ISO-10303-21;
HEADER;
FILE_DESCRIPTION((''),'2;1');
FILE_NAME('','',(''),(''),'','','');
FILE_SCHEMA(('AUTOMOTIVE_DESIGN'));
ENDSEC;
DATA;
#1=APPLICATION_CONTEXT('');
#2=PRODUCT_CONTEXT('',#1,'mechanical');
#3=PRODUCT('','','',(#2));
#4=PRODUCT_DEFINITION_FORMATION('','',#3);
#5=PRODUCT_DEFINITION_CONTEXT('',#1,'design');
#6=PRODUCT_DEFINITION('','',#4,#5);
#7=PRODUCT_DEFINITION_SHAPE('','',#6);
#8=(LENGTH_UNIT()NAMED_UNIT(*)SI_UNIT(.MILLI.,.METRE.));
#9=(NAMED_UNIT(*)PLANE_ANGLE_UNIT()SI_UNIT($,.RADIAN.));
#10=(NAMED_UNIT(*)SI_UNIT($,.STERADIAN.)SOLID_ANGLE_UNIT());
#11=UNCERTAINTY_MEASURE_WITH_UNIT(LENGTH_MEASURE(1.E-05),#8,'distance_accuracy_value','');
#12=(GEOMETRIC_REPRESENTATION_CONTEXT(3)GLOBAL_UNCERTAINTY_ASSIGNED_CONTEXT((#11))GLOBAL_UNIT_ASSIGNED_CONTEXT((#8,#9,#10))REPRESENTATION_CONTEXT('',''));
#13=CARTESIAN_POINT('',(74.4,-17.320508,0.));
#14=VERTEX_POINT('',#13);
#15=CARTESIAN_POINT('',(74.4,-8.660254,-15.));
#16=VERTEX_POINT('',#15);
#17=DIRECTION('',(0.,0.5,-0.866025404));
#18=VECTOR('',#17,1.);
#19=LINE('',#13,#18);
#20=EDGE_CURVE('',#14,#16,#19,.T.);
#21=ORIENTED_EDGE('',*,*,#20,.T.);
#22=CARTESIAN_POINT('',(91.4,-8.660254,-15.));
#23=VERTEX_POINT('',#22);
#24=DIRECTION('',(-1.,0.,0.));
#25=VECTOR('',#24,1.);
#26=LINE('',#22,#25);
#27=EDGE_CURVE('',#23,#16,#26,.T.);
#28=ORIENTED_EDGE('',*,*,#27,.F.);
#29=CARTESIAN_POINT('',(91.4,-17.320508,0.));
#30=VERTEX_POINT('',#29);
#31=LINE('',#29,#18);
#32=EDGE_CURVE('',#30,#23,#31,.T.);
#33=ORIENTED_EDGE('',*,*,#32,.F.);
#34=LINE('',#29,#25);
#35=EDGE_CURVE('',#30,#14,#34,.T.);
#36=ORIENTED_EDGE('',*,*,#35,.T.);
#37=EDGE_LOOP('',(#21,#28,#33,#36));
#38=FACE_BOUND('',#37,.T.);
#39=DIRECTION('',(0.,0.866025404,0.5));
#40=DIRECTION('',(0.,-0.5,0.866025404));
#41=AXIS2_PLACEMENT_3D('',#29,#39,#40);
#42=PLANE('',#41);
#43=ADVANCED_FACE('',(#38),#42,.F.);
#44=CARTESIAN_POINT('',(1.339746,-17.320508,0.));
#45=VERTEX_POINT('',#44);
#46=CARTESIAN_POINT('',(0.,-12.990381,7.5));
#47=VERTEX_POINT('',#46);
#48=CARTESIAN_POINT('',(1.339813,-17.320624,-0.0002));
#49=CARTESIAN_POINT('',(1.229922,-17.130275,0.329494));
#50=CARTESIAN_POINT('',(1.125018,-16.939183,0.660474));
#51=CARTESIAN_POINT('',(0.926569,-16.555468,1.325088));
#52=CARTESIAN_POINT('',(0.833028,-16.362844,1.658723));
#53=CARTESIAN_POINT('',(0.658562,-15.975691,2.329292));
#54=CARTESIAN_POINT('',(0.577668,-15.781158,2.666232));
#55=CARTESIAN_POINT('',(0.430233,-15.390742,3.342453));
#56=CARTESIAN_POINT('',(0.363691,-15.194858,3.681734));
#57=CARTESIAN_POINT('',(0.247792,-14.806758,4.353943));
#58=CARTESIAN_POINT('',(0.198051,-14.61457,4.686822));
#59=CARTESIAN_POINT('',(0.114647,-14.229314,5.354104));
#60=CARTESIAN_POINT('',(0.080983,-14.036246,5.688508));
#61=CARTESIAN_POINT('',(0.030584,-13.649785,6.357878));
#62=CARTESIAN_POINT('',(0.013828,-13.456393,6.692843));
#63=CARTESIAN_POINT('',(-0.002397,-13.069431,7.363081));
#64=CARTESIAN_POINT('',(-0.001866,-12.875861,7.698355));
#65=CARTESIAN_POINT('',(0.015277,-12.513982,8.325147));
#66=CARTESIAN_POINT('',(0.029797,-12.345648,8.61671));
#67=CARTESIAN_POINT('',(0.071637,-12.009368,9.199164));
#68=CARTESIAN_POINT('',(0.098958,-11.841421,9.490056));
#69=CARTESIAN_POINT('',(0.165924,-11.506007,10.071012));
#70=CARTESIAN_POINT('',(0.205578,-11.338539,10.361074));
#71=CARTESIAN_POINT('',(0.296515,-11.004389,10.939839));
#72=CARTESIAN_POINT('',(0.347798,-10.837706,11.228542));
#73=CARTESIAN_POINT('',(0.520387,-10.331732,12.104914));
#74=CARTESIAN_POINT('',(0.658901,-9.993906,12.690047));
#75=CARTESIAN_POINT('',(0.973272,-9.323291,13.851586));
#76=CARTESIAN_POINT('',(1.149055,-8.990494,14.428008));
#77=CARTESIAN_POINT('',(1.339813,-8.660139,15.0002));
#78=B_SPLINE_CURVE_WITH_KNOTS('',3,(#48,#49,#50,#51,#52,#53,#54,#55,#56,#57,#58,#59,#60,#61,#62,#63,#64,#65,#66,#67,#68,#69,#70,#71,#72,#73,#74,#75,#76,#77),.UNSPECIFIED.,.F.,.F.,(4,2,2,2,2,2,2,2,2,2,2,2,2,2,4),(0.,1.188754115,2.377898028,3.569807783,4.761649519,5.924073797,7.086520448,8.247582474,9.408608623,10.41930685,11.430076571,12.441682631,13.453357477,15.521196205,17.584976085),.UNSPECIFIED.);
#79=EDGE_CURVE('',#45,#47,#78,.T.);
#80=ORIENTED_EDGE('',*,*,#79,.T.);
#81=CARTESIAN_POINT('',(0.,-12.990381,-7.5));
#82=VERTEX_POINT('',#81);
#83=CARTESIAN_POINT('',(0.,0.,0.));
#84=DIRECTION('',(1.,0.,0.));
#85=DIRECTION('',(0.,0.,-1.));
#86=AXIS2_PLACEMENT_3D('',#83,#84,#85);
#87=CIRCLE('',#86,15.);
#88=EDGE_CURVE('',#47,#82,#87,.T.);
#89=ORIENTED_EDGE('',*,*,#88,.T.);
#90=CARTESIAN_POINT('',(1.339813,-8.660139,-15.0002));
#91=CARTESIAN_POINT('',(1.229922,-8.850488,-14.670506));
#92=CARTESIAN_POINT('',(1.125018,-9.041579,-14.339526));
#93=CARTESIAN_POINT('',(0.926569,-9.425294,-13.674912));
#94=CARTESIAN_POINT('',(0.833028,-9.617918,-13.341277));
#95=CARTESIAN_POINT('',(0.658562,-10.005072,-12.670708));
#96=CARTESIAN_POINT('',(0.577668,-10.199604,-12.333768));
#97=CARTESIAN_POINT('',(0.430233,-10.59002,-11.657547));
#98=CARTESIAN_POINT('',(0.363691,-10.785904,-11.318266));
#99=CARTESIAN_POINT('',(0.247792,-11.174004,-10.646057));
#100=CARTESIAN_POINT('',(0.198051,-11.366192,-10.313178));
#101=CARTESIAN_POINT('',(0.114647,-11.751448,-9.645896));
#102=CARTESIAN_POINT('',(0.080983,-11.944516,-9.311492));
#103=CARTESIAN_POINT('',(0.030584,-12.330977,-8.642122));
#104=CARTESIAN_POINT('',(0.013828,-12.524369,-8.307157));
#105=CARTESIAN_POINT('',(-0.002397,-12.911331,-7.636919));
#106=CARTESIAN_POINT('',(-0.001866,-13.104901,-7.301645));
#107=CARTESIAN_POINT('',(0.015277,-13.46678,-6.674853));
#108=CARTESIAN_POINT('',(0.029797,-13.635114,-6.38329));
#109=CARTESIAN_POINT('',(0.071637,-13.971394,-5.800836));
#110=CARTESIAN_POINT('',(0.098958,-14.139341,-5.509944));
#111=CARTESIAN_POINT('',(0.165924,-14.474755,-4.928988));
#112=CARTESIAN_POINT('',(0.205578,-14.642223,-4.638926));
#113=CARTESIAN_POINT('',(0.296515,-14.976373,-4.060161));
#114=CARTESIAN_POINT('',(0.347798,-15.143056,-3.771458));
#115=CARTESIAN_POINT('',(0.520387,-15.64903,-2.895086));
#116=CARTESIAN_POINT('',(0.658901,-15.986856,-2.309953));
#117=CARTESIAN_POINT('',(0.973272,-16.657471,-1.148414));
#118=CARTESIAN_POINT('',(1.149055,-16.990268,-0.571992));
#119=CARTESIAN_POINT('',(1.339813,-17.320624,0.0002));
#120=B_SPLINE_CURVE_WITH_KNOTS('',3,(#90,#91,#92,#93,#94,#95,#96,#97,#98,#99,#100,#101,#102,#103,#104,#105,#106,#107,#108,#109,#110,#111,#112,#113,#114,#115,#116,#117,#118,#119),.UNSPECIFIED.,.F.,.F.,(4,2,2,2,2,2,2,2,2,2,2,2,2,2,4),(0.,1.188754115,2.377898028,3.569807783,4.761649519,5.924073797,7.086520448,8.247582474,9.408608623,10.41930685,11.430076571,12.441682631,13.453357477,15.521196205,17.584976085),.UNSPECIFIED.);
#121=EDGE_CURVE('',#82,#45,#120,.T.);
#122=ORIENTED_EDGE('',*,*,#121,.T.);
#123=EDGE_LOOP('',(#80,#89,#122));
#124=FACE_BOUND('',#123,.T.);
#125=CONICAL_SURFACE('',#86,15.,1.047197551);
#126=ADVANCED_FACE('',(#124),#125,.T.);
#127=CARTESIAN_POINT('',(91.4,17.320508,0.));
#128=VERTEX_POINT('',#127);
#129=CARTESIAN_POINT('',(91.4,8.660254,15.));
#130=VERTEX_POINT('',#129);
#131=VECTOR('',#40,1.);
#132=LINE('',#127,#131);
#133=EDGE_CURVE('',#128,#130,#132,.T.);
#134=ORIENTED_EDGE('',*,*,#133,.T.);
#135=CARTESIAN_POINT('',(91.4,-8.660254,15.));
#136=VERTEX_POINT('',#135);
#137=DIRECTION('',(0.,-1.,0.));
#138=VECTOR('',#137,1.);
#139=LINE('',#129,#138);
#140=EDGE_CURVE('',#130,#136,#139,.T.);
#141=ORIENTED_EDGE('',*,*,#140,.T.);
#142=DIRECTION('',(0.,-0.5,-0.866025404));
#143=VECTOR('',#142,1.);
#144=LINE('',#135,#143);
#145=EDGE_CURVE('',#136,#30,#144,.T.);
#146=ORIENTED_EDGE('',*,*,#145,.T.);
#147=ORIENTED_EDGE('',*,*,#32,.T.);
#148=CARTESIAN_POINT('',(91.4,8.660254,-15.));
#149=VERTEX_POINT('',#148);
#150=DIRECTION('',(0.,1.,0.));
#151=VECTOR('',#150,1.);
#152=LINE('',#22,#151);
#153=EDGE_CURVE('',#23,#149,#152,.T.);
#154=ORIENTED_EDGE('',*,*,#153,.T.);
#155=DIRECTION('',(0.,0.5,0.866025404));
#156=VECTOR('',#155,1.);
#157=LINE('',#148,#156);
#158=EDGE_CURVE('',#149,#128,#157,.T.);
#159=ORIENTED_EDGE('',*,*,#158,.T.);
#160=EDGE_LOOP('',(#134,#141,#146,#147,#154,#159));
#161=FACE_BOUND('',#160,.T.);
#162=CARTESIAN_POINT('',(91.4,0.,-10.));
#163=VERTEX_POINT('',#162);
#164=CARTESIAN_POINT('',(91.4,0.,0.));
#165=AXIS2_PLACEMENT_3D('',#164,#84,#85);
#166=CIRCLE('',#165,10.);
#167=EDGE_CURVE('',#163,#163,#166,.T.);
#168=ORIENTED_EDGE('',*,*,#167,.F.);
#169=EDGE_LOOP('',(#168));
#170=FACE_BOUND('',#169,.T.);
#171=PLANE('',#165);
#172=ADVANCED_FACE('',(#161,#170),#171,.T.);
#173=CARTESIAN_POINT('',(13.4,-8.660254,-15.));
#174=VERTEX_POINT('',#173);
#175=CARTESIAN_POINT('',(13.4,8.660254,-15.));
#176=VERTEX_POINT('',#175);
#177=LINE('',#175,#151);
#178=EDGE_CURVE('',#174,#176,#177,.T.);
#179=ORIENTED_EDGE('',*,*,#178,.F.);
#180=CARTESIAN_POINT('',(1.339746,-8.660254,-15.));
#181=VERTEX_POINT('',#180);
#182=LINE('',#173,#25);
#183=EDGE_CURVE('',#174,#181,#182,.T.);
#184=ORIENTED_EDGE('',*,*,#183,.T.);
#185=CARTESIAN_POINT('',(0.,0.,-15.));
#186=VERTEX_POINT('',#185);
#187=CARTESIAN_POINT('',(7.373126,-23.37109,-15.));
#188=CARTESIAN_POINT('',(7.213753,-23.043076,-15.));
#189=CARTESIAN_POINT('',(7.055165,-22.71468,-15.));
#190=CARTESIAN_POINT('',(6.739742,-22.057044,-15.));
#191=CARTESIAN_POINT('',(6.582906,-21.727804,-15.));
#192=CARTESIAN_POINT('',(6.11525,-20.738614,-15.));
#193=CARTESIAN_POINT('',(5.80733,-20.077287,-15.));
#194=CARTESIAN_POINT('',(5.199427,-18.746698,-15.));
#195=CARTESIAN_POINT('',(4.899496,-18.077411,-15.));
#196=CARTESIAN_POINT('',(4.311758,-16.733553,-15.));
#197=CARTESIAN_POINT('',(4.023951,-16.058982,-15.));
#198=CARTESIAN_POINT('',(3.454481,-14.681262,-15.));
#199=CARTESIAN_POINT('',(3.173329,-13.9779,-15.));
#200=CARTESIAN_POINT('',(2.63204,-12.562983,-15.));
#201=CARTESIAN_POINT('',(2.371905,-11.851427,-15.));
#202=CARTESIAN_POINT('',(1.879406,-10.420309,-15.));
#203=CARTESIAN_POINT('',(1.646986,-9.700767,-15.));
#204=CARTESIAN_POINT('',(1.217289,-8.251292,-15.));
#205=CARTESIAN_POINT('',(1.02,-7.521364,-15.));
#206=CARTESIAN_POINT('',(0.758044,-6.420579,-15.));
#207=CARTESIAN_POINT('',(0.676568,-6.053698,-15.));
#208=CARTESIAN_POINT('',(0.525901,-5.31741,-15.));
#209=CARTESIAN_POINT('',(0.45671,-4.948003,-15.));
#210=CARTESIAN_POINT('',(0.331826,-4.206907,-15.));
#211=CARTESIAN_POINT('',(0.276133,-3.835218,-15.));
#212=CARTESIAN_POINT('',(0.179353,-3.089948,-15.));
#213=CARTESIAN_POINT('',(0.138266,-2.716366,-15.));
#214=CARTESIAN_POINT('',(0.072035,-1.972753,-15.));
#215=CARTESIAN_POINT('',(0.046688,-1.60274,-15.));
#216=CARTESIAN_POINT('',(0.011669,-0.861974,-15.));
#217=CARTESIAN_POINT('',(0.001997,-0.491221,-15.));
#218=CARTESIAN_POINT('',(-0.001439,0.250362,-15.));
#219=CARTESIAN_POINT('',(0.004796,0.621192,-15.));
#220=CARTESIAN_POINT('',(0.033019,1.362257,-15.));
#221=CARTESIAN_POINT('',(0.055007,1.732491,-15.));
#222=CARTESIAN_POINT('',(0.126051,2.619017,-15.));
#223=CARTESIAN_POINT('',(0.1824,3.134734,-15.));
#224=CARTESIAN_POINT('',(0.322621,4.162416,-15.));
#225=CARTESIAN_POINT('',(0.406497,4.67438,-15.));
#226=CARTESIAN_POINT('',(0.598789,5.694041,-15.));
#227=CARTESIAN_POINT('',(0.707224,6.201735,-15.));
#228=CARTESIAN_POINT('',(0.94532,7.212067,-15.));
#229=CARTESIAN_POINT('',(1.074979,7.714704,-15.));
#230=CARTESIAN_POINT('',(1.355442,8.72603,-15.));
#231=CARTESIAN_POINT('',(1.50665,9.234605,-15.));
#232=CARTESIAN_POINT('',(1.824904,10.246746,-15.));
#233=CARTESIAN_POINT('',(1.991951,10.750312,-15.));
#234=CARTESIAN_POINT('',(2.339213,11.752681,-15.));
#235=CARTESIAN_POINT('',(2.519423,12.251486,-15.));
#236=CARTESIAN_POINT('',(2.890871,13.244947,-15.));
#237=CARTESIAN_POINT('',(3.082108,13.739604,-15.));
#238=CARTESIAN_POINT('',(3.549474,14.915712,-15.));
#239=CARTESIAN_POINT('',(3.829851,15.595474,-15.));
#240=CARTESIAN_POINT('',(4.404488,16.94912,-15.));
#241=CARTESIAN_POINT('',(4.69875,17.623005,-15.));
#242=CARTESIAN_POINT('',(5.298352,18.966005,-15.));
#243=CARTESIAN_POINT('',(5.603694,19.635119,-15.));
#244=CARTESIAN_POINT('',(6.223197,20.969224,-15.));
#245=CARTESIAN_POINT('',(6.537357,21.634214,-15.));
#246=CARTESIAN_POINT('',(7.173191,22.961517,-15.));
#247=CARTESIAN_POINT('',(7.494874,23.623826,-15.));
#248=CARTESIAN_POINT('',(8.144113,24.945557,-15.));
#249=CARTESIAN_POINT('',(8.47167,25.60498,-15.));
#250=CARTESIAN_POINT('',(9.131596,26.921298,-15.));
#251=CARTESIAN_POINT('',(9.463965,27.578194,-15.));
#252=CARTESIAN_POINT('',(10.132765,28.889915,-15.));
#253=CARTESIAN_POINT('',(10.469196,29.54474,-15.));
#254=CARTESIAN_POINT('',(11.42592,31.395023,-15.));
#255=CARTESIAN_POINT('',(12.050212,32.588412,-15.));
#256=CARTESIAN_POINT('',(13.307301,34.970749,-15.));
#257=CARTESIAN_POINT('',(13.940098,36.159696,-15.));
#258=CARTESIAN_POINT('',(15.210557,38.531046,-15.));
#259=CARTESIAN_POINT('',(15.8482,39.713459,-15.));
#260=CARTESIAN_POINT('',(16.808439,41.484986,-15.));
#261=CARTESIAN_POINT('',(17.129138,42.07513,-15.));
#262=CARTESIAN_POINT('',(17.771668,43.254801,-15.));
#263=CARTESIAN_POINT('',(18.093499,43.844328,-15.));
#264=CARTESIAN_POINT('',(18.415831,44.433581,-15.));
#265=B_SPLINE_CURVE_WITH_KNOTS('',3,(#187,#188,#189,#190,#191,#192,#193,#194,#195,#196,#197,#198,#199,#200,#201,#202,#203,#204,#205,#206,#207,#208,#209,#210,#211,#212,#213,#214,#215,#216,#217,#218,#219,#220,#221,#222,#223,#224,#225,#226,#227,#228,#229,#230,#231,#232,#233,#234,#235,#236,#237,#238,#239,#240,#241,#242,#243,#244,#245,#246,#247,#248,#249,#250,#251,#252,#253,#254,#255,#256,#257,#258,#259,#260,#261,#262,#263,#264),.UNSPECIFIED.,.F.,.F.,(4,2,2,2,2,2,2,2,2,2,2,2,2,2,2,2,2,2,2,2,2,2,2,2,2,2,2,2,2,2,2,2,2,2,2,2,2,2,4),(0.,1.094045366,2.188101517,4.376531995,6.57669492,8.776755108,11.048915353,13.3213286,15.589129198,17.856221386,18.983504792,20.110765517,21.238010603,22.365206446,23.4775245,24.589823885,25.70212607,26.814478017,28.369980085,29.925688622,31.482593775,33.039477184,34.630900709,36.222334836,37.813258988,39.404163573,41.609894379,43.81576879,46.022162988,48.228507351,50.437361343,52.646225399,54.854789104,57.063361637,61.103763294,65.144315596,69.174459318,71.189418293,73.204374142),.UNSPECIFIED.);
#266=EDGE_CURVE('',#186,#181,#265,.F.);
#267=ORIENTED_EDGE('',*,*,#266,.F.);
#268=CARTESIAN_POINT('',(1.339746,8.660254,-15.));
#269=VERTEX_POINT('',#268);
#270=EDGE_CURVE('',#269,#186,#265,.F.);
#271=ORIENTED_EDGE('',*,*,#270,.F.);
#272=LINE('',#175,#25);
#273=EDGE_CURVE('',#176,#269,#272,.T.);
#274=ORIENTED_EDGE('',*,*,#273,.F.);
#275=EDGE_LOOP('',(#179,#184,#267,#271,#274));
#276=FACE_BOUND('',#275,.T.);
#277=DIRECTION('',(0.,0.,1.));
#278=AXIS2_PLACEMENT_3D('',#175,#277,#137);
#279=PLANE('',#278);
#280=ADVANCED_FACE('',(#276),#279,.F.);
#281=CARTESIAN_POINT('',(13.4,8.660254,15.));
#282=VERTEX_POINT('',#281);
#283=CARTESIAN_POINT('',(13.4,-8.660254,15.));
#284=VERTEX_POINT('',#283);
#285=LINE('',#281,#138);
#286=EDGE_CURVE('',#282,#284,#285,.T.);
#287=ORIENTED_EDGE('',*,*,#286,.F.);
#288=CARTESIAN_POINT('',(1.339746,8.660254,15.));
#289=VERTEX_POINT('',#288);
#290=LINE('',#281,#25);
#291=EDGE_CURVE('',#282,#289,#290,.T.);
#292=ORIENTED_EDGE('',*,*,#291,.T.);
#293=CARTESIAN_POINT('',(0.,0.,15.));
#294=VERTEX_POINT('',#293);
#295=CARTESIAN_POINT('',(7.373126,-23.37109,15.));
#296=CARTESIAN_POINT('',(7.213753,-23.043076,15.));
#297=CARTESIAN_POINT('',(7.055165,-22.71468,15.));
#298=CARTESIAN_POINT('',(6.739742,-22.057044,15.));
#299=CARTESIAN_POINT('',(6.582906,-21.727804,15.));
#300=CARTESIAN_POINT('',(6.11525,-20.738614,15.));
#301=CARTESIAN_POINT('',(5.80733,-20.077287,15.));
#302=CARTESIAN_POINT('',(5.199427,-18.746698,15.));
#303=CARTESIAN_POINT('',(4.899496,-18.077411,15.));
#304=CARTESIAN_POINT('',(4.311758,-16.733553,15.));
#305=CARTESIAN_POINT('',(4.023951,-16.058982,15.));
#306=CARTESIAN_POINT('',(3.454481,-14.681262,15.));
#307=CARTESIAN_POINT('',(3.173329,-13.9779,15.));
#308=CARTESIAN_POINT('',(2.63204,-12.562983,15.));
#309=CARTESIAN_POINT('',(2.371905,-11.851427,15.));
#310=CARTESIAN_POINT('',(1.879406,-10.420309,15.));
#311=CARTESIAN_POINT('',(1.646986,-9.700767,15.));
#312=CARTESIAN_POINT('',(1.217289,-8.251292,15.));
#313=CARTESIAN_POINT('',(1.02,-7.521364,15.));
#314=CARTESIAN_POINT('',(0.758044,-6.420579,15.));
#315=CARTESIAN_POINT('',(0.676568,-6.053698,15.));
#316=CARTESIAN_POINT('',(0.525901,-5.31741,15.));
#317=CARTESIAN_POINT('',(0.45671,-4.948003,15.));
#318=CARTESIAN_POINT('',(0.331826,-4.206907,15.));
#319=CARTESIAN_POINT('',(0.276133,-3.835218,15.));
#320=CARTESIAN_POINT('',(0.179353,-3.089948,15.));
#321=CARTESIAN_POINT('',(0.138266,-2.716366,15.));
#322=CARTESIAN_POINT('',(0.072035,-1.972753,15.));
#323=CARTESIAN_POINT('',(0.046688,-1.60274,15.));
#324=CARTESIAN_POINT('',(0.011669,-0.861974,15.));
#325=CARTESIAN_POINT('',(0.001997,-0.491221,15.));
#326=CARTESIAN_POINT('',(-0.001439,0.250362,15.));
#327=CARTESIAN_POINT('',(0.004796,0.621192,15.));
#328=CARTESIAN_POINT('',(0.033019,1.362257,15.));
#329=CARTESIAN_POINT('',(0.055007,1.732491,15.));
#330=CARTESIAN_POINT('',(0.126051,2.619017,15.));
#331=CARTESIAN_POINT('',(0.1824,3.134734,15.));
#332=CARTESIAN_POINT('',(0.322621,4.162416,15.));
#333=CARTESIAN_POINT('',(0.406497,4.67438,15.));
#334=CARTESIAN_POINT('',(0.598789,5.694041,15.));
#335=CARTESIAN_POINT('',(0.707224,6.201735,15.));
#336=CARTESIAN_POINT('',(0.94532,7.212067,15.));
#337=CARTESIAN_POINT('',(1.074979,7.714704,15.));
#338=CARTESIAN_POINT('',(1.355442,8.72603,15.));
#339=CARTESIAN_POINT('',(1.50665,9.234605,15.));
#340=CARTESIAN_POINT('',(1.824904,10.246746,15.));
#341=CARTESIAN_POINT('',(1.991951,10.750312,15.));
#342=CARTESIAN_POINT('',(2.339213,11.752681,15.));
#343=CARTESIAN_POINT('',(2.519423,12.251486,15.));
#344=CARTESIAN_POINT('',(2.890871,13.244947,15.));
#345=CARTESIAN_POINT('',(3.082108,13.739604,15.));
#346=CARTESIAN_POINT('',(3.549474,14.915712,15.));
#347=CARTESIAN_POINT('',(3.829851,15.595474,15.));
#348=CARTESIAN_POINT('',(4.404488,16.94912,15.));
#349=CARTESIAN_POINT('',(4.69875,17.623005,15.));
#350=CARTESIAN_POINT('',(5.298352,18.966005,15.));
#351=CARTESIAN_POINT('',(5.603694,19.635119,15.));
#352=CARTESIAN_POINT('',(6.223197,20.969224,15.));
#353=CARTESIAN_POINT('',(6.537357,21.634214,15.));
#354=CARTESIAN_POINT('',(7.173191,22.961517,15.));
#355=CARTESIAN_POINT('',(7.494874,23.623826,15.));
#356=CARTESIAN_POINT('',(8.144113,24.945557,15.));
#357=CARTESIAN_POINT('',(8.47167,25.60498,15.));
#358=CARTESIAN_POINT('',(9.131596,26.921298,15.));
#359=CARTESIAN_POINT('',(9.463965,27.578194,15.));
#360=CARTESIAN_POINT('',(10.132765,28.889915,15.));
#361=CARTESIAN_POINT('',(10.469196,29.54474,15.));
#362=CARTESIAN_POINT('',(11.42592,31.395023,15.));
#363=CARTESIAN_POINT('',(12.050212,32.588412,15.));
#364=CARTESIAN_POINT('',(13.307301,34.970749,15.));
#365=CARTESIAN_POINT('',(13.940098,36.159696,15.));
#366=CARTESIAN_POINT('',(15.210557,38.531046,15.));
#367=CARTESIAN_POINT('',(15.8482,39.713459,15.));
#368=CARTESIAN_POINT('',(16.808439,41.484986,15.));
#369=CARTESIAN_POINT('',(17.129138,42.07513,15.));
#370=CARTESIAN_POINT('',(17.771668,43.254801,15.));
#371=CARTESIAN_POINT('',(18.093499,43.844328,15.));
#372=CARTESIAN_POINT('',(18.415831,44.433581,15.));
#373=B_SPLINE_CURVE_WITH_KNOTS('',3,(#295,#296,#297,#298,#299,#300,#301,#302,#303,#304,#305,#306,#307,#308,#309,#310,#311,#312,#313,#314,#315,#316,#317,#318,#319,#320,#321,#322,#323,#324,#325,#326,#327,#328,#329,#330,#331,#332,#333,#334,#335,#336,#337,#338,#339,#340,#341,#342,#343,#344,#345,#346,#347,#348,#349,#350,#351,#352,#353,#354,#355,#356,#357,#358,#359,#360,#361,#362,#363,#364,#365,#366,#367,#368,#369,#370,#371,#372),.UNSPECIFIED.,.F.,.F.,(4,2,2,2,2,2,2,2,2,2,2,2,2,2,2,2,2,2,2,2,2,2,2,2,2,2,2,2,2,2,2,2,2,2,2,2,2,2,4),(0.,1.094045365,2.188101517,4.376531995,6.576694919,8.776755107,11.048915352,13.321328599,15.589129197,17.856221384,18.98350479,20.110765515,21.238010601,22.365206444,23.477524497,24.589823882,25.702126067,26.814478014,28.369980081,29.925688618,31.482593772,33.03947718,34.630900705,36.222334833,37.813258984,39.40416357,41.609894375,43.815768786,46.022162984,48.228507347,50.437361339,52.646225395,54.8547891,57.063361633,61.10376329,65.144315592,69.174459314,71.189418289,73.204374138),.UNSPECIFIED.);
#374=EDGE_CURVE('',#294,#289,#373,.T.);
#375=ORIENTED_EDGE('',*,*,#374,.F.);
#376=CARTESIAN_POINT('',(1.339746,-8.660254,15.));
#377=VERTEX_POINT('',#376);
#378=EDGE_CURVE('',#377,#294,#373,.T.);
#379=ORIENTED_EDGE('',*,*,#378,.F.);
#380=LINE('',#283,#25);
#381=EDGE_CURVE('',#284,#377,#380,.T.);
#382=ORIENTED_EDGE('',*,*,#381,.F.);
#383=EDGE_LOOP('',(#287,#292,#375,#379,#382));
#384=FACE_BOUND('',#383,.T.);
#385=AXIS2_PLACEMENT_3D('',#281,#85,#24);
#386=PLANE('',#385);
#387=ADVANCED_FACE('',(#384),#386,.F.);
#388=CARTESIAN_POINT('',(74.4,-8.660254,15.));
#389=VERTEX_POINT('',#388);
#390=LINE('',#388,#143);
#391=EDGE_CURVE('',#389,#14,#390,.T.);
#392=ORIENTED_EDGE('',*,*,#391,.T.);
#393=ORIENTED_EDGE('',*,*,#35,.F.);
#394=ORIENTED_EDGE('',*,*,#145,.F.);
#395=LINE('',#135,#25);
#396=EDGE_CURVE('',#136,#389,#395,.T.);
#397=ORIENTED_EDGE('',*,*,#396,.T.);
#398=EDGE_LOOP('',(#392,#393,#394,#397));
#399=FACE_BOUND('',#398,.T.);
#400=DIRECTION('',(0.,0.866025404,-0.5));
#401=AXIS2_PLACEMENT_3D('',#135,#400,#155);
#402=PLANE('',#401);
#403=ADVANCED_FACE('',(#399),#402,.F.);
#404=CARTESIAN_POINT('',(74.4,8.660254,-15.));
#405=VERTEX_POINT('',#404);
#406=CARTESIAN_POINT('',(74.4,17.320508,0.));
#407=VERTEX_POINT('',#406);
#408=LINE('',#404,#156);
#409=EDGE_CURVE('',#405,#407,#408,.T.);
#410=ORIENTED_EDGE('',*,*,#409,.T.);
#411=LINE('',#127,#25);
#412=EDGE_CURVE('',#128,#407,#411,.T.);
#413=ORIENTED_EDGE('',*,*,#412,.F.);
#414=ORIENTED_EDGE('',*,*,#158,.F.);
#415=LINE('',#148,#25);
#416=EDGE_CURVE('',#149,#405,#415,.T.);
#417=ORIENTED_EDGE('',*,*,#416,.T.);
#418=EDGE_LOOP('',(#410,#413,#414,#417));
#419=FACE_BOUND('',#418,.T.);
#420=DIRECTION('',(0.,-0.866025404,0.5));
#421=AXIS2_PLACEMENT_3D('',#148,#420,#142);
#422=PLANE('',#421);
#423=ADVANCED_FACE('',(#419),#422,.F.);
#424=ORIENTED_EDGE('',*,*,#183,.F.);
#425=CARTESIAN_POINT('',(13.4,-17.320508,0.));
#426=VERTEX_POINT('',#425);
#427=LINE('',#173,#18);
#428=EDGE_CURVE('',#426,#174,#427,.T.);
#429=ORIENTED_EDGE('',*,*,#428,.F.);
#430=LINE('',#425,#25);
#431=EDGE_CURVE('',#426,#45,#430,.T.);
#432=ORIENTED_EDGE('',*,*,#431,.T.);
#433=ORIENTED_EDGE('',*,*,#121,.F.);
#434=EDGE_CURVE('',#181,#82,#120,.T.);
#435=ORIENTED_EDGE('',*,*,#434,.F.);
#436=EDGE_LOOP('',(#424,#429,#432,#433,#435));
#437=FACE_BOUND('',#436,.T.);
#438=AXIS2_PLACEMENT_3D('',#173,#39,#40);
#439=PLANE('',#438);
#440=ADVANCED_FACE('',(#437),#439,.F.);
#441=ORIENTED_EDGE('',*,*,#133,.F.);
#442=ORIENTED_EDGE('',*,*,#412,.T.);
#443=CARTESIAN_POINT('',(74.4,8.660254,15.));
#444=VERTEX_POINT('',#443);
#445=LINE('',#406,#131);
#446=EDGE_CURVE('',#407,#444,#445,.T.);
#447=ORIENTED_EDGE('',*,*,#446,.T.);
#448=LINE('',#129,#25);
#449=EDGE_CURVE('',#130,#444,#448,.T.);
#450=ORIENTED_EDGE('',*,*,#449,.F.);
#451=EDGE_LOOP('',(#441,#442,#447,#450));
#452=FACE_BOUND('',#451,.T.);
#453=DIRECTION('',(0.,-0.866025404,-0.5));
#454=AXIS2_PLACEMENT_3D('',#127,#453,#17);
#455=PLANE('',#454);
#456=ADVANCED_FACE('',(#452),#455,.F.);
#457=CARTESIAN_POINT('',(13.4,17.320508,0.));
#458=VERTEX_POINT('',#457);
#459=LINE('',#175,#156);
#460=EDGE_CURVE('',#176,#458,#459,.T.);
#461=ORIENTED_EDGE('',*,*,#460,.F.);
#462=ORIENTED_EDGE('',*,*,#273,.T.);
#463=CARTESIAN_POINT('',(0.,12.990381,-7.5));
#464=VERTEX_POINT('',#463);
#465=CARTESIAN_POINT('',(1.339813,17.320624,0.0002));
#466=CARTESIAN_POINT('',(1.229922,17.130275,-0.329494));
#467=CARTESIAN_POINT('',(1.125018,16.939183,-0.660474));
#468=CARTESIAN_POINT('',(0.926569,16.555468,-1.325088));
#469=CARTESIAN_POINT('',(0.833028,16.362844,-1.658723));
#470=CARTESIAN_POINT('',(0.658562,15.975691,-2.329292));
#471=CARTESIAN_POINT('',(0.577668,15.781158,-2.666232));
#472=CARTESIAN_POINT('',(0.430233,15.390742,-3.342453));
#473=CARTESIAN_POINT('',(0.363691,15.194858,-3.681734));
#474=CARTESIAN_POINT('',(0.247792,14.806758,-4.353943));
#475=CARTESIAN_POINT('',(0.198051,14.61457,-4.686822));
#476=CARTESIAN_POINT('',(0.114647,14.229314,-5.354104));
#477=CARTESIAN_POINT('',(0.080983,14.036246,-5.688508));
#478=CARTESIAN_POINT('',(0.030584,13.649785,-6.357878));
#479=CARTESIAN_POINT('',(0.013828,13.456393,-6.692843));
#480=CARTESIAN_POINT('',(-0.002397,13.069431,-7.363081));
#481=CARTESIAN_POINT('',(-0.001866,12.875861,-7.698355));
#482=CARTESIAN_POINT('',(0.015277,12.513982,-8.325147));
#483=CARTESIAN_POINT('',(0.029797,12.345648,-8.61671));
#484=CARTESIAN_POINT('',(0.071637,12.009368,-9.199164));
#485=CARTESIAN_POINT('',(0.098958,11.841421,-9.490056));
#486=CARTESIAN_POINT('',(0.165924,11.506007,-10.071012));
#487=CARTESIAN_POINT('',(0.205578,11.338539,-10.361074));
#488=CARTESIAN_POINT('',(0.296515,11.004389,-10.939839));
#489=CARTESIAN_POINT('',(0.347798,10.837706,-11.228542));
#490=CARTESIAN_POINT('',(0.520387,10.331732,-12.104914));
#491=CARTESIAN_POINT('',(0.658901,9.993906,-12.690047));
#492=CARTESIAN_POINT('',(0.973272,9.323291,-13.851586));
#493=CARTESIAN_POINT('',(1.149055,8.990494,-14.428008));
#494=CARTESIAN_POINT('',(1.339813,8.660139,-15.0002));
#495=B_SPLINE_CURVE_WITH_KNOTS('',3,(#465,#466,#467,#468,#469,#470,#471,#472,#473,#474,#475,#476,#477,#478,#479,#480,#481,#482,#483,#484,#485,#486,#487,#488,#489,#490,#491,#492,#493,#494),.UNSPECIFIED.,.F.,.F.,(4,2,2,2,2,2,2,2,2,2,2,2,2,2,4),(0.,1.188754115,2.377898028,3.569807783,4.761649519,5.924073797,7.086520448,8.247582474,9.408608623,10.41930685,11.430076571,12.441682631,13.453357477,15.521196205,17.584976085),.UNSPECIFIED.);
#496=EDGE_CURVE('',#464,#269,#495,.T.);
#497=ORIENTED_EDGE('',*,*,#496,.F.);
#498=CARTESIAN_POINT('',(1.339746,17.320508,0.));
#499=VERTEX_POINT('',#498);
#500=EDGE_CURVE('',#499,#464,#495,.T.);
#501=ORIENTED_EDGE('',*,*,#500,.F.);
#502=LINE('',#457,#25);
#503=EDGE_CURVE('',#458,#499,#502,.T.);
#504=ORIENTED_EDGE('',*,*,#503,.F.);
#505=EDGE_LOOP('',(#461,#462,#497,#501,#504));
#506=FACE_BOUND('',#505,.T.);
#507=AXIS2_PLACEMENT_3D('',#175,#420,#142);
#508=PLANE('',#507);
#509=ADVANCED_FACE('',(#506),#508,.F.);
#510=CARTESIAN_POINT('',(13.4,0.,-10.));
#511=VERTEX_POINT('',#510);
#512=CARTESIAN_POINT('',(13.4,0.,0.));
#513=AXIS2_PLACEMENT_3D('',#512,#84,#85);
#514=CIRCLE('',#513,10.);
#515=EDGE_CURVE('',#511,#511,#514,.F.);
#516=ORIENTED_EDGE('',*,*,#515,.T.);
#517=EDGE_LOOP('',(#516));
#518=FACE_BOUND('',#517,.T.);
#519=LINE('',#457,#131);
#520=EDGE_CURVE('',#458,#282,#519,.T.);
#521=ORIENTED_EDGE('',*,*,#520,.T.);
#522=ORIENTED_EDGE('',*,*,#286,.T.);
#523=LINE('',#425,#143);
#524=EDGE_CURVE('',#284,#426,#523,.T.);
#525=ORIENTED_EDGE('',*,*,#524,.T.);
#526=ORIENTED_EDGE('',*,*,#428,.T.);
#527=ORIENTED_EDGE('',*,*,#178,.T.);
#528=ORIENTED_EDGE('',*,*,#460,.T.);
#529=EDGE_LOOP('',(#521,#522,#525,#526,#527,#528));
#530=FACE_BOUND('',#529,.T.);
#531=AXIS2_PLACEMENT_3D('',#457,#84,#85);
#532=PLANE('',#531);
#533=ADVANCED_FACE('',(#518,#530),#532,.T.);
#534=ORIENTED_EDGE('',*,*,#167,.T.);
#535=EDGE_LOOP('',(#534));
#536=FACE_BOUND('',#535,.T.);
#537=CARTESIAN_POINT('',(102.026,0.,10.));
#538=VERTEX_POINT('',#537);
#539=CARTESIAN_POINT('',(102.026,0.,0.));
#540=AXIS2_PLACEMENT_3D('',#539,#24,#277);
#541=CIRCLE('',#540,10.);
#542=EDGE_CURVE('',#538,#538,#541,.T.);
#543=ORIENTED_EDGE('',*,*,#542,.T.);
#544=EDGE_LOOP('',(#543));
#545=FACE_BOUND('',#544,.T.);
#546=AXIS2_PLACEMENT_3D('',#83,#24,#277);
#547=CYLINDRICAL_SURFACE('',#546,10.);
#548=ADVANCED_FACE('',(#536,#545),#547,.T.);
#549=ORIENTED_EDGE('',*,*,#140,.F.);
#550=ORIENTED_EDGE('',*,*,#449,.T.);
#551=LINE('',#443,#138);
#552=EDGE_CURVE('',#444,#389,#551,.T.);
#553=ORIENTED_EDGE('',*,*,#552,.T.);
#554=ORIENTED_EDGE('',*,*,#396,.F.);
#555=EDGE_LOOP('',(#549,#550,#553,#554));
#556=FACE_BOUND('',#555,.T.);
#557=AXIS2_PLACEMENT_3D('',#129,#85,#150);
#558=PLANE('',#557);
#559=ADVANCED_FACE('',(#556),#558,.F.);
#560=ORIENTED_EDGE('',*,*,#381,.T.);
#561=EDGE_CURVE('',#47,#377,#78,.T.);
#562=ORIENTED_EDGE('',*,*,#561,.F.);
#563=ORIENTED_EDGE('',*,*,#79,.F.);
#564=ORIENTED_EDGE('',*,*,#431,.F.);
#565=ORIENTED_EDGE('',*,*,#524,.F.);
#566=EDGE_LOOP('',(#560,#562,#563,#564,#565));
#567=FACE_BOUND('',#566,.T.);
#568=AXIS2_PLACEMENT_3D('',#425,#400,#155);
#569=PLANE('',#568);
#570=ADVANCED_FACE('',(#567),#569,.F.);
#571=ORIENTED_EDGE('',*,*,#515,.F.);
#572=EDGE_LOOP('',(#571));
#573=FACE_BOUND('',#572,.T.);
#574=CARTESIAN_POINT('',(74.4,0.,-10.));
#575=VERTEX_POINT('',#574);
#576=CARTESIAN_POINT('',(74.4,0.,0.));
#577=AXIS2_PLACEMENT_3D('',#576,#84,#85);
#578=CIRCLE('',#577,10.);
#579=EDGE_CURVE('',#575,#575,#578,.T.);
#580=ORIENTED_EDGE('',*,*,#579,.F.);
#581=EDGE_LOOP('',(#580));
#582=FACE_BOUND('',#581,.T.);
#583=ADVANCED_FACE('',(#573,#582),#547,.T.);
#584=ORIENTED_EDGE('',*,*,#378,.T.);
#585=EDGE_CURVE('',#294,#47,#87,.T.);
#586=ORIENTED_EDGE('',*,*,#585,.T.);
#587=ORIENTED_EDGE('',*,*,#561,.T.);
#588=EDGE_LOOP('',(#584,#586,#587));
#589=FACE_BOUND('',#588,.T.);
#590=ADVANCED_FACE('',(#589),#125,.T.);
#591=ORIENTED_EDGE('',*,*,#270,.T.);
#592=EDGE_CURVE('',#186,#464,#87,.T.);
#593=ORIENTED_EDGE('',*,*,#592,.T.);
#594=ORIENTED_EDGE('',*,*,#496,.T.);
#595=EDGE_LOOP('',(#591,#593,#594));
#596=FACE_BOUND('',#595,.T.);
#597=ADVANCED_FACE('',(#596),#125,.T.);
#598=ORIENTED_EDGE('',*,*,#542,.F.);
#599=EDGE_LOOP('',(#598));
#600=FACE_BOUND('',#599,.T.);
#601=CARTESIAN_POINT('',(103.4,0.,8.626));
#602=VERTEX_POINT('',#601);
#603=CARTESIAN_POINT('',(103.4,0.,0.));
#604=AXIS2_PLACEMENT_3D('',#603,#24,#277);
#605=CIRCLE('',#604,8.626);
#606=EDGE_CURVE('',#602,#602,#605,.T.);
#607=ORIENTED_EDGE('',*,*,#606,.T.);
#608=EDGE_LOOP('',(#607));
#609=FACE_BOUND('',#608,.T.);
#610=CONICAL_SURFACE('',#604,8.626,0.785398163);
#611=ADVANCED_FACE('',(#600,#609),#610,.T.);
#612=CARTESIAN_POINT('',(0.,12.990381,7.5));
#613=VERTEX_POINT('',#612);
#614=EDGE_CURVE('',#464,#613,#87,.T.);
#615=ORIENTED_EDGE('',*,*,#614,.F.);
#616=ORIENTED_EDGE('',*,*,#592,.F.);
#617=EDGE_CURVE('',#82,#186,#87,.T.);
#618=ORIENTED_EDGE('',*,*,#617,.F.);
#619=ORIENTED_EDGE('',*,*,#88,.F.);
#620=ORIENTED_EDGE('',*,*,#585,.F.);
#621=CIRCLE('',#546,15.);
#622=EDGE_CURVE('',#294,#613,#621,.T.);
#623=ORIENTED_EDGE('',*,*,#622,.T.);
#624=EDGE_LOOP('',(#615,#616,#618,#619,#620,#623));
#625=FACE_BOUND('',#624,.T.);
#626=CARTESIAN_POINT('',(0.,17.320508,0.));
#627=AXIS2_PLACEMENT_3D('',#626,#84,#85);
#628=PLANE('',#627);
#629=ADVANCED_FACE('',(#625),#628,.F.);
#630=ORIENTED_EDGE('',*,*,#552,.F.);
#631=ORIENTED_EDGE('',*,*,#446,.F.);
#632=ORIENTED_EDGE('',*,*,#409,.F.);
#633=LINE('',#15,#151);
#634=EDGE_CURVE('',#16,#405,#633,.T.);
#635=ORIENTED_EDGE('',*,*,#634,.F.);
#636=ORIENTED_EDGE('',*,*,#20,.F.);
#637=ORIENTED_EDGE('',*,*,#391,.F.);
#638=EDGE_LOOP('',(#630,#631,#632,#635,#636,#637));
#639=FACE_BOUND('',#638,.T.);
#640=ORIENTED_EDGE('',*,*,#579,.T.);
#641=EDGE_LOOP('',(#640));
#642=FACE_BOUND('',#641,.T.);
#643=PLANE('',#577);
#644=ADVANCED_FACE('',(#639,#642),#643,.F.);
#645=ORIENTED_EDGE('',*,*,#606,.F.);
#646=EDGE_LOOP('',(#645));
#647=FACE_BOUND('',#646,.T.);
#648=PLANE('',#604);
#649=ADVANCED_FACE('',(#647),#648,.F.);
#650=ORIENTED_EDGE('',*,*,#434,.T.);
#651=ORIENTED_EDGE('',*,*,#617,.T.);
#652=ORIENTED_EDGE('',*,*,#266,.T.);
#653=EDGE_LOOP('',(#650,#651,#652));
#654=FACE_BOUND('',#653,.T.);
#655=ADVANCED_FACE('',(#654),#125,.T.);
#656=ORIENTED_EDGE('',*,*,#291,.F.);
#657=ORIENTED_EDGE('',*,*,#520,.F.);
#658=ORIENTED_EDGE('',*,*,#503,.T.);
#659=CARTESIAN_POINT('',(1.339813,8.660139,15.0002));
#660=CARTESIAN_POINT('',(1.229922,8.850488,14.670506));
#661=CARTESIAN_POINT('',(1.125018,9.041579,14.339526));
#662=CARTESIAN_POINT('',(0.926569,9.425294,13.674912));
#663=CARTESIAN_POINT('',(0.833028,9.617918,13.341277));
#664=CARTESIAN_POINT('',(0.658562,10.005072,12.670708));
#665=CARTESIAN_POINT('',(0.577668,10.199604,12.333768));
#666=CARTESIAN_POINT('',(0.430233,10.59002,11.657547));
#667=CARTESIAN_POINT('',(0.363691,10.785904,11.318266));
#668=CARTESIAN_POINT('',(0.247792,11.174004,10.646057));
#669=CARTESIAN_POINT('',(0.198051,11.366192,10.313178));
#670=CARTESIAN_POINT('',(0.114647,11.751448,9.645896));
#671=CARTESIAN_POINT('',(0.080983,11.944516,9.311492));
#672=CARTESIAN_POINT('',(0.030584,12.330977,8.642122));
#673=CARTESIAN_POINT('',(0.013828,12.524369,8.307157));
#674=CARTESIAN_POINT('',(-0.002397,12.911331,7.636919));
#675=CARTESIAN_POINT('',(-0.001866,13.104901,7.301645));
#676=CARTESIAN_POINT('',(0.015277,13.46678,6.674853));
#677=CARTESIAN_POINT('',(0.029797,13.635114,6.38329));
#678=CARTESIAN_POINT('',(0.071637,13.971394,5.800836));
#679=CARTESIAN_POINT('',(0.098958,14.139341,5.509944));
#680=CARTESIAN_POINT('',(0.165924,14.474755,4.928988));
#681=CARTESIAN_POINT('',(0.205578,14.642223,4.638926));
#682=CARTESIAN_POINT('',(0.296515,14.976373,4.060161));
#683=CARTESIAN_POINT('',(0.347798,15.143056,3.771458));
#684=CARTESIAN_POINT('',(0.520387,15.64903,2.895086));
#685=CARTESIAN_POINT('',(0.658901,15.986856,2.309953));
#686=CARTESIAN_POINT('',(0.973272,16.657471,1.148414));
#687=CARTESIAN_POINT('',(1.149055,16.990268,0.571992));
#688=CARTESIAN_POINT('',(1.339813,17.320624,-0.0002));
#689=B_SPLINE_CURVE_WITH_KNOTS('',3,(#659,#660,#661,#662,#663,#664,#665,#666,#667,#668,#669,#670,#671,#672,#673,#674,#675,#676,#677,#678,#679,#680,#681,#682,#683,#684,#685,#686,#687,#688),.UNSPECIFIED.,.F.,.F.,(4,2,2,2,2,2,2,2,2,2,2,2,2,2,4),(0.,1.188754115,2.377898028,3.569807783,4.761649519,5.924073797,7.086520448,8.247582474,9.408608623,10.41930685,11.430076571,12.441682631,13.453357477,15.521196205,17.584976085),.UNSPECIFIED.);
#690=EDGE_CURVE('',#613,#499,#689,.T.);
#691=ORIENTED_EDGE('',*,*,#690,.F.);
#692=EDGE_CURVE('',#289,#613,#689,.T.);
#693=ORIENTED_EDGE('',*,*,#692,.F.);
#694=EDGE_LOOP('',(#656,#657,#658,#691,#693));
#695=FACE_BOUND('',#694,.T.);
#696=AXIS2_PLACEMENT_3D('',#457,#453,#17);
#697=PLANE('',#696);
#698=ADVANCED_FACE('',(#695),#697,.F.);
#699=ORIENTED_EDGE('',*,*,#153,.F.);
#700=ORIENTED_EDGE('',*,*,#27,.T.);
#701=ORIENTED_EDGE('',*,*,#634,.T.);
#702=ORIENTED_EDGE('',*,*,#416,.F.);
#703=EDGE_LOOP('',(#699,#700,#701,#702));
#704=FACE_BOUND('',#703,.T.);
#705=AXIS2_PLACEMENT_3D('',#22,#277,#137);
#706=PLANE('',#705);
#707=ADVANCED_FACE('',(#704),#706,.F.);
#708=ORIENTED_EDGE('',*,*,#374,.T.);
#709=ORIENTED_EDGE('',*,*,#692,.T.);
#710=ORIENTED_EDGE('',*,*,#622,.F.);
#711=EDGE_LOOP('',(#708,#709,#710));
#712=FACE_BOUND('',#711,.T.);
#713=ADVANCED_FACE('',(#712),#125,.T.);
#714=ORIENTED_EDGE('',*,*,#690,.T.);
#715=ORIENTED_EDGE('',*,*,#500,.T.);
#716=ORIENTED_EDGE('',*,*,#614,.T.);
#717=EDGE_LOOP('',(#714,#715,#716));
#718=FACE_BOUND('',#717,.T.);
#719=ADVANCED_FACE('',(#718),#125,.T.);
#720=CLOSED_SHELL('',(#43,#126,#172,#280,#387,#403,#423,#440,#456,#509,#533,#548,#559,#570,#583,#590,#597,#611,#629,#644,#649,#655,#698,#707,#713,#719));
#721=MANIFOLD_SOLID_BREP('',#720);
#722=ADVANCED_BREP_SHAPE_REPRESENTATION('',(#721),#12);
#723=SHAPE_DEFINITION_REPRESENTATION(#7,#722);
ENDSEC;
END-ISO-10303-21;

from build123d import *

# Parameters (mm, degrees)
BASEHEAD_DEPTH      = 13.4
BOSS_EXTRUDE1_DEPTH = 17


with BuildPart() as part:
    # Sketch1 → BaseHead (new body)
    with BuildSketch(Plane(origin=(0, 0, 0), x_dir=(0, 0, -1), z_dir=(1, 0, 0))):
        Polygon((15, 8.660254038), (15, -8.660254038), (0, -17.320508076), (-15, -8.660254038), (-15, 8.660254038), (0, 17.320508076), align=None)
    extrude(amount=BASEHEAD_DEPTH)

    # BodySke → BaseBody (revolve)
    with BuildSketch(Plane.XY, mode=Mode.PRIVATE) as basebody_sk:
        Polygon((0, 0), (103.4, 0), (103.4, 8.626), (102.026, 10), (0, 10), align=None)
    revolve(basebody_sk.sketch.rotate(Axis((0, 0, 0), (1, 0, 0)), 90), axis=Axis((0, 0, 0), (1, 0, 0)))

    # Sketch3 → HeadChamfer (revolve, cut)
    with BuildSketch(Plane.XY):
        Polygon((0, 15), (4.226497308, 22.320508076), (4.226497308, 27.320508076), (-10, 27.320508076), (-10, 15), align=None)
    revolve(axis=Axis((0, 0, 0), (1, 0, 0)), mode=Mode.SUBTRACT)

    # Sketch4 → Boss-Extrude1 (add)
    with BuildSketch(Plane(origin=(74.4, 0, 0), x_dir=(0, 0, -1), z_dir=(1, 0, 0))):
        Polygon((0, 17.320508076), (-15, 8.660254038), (-15, -8.660254038), (0, -17.320508076), (15, -8.660254038), (15, 8.660254038), align=None)
    extrude(amount=BOSS_EXTRUDE1_DEPTH)


solid = part.part
